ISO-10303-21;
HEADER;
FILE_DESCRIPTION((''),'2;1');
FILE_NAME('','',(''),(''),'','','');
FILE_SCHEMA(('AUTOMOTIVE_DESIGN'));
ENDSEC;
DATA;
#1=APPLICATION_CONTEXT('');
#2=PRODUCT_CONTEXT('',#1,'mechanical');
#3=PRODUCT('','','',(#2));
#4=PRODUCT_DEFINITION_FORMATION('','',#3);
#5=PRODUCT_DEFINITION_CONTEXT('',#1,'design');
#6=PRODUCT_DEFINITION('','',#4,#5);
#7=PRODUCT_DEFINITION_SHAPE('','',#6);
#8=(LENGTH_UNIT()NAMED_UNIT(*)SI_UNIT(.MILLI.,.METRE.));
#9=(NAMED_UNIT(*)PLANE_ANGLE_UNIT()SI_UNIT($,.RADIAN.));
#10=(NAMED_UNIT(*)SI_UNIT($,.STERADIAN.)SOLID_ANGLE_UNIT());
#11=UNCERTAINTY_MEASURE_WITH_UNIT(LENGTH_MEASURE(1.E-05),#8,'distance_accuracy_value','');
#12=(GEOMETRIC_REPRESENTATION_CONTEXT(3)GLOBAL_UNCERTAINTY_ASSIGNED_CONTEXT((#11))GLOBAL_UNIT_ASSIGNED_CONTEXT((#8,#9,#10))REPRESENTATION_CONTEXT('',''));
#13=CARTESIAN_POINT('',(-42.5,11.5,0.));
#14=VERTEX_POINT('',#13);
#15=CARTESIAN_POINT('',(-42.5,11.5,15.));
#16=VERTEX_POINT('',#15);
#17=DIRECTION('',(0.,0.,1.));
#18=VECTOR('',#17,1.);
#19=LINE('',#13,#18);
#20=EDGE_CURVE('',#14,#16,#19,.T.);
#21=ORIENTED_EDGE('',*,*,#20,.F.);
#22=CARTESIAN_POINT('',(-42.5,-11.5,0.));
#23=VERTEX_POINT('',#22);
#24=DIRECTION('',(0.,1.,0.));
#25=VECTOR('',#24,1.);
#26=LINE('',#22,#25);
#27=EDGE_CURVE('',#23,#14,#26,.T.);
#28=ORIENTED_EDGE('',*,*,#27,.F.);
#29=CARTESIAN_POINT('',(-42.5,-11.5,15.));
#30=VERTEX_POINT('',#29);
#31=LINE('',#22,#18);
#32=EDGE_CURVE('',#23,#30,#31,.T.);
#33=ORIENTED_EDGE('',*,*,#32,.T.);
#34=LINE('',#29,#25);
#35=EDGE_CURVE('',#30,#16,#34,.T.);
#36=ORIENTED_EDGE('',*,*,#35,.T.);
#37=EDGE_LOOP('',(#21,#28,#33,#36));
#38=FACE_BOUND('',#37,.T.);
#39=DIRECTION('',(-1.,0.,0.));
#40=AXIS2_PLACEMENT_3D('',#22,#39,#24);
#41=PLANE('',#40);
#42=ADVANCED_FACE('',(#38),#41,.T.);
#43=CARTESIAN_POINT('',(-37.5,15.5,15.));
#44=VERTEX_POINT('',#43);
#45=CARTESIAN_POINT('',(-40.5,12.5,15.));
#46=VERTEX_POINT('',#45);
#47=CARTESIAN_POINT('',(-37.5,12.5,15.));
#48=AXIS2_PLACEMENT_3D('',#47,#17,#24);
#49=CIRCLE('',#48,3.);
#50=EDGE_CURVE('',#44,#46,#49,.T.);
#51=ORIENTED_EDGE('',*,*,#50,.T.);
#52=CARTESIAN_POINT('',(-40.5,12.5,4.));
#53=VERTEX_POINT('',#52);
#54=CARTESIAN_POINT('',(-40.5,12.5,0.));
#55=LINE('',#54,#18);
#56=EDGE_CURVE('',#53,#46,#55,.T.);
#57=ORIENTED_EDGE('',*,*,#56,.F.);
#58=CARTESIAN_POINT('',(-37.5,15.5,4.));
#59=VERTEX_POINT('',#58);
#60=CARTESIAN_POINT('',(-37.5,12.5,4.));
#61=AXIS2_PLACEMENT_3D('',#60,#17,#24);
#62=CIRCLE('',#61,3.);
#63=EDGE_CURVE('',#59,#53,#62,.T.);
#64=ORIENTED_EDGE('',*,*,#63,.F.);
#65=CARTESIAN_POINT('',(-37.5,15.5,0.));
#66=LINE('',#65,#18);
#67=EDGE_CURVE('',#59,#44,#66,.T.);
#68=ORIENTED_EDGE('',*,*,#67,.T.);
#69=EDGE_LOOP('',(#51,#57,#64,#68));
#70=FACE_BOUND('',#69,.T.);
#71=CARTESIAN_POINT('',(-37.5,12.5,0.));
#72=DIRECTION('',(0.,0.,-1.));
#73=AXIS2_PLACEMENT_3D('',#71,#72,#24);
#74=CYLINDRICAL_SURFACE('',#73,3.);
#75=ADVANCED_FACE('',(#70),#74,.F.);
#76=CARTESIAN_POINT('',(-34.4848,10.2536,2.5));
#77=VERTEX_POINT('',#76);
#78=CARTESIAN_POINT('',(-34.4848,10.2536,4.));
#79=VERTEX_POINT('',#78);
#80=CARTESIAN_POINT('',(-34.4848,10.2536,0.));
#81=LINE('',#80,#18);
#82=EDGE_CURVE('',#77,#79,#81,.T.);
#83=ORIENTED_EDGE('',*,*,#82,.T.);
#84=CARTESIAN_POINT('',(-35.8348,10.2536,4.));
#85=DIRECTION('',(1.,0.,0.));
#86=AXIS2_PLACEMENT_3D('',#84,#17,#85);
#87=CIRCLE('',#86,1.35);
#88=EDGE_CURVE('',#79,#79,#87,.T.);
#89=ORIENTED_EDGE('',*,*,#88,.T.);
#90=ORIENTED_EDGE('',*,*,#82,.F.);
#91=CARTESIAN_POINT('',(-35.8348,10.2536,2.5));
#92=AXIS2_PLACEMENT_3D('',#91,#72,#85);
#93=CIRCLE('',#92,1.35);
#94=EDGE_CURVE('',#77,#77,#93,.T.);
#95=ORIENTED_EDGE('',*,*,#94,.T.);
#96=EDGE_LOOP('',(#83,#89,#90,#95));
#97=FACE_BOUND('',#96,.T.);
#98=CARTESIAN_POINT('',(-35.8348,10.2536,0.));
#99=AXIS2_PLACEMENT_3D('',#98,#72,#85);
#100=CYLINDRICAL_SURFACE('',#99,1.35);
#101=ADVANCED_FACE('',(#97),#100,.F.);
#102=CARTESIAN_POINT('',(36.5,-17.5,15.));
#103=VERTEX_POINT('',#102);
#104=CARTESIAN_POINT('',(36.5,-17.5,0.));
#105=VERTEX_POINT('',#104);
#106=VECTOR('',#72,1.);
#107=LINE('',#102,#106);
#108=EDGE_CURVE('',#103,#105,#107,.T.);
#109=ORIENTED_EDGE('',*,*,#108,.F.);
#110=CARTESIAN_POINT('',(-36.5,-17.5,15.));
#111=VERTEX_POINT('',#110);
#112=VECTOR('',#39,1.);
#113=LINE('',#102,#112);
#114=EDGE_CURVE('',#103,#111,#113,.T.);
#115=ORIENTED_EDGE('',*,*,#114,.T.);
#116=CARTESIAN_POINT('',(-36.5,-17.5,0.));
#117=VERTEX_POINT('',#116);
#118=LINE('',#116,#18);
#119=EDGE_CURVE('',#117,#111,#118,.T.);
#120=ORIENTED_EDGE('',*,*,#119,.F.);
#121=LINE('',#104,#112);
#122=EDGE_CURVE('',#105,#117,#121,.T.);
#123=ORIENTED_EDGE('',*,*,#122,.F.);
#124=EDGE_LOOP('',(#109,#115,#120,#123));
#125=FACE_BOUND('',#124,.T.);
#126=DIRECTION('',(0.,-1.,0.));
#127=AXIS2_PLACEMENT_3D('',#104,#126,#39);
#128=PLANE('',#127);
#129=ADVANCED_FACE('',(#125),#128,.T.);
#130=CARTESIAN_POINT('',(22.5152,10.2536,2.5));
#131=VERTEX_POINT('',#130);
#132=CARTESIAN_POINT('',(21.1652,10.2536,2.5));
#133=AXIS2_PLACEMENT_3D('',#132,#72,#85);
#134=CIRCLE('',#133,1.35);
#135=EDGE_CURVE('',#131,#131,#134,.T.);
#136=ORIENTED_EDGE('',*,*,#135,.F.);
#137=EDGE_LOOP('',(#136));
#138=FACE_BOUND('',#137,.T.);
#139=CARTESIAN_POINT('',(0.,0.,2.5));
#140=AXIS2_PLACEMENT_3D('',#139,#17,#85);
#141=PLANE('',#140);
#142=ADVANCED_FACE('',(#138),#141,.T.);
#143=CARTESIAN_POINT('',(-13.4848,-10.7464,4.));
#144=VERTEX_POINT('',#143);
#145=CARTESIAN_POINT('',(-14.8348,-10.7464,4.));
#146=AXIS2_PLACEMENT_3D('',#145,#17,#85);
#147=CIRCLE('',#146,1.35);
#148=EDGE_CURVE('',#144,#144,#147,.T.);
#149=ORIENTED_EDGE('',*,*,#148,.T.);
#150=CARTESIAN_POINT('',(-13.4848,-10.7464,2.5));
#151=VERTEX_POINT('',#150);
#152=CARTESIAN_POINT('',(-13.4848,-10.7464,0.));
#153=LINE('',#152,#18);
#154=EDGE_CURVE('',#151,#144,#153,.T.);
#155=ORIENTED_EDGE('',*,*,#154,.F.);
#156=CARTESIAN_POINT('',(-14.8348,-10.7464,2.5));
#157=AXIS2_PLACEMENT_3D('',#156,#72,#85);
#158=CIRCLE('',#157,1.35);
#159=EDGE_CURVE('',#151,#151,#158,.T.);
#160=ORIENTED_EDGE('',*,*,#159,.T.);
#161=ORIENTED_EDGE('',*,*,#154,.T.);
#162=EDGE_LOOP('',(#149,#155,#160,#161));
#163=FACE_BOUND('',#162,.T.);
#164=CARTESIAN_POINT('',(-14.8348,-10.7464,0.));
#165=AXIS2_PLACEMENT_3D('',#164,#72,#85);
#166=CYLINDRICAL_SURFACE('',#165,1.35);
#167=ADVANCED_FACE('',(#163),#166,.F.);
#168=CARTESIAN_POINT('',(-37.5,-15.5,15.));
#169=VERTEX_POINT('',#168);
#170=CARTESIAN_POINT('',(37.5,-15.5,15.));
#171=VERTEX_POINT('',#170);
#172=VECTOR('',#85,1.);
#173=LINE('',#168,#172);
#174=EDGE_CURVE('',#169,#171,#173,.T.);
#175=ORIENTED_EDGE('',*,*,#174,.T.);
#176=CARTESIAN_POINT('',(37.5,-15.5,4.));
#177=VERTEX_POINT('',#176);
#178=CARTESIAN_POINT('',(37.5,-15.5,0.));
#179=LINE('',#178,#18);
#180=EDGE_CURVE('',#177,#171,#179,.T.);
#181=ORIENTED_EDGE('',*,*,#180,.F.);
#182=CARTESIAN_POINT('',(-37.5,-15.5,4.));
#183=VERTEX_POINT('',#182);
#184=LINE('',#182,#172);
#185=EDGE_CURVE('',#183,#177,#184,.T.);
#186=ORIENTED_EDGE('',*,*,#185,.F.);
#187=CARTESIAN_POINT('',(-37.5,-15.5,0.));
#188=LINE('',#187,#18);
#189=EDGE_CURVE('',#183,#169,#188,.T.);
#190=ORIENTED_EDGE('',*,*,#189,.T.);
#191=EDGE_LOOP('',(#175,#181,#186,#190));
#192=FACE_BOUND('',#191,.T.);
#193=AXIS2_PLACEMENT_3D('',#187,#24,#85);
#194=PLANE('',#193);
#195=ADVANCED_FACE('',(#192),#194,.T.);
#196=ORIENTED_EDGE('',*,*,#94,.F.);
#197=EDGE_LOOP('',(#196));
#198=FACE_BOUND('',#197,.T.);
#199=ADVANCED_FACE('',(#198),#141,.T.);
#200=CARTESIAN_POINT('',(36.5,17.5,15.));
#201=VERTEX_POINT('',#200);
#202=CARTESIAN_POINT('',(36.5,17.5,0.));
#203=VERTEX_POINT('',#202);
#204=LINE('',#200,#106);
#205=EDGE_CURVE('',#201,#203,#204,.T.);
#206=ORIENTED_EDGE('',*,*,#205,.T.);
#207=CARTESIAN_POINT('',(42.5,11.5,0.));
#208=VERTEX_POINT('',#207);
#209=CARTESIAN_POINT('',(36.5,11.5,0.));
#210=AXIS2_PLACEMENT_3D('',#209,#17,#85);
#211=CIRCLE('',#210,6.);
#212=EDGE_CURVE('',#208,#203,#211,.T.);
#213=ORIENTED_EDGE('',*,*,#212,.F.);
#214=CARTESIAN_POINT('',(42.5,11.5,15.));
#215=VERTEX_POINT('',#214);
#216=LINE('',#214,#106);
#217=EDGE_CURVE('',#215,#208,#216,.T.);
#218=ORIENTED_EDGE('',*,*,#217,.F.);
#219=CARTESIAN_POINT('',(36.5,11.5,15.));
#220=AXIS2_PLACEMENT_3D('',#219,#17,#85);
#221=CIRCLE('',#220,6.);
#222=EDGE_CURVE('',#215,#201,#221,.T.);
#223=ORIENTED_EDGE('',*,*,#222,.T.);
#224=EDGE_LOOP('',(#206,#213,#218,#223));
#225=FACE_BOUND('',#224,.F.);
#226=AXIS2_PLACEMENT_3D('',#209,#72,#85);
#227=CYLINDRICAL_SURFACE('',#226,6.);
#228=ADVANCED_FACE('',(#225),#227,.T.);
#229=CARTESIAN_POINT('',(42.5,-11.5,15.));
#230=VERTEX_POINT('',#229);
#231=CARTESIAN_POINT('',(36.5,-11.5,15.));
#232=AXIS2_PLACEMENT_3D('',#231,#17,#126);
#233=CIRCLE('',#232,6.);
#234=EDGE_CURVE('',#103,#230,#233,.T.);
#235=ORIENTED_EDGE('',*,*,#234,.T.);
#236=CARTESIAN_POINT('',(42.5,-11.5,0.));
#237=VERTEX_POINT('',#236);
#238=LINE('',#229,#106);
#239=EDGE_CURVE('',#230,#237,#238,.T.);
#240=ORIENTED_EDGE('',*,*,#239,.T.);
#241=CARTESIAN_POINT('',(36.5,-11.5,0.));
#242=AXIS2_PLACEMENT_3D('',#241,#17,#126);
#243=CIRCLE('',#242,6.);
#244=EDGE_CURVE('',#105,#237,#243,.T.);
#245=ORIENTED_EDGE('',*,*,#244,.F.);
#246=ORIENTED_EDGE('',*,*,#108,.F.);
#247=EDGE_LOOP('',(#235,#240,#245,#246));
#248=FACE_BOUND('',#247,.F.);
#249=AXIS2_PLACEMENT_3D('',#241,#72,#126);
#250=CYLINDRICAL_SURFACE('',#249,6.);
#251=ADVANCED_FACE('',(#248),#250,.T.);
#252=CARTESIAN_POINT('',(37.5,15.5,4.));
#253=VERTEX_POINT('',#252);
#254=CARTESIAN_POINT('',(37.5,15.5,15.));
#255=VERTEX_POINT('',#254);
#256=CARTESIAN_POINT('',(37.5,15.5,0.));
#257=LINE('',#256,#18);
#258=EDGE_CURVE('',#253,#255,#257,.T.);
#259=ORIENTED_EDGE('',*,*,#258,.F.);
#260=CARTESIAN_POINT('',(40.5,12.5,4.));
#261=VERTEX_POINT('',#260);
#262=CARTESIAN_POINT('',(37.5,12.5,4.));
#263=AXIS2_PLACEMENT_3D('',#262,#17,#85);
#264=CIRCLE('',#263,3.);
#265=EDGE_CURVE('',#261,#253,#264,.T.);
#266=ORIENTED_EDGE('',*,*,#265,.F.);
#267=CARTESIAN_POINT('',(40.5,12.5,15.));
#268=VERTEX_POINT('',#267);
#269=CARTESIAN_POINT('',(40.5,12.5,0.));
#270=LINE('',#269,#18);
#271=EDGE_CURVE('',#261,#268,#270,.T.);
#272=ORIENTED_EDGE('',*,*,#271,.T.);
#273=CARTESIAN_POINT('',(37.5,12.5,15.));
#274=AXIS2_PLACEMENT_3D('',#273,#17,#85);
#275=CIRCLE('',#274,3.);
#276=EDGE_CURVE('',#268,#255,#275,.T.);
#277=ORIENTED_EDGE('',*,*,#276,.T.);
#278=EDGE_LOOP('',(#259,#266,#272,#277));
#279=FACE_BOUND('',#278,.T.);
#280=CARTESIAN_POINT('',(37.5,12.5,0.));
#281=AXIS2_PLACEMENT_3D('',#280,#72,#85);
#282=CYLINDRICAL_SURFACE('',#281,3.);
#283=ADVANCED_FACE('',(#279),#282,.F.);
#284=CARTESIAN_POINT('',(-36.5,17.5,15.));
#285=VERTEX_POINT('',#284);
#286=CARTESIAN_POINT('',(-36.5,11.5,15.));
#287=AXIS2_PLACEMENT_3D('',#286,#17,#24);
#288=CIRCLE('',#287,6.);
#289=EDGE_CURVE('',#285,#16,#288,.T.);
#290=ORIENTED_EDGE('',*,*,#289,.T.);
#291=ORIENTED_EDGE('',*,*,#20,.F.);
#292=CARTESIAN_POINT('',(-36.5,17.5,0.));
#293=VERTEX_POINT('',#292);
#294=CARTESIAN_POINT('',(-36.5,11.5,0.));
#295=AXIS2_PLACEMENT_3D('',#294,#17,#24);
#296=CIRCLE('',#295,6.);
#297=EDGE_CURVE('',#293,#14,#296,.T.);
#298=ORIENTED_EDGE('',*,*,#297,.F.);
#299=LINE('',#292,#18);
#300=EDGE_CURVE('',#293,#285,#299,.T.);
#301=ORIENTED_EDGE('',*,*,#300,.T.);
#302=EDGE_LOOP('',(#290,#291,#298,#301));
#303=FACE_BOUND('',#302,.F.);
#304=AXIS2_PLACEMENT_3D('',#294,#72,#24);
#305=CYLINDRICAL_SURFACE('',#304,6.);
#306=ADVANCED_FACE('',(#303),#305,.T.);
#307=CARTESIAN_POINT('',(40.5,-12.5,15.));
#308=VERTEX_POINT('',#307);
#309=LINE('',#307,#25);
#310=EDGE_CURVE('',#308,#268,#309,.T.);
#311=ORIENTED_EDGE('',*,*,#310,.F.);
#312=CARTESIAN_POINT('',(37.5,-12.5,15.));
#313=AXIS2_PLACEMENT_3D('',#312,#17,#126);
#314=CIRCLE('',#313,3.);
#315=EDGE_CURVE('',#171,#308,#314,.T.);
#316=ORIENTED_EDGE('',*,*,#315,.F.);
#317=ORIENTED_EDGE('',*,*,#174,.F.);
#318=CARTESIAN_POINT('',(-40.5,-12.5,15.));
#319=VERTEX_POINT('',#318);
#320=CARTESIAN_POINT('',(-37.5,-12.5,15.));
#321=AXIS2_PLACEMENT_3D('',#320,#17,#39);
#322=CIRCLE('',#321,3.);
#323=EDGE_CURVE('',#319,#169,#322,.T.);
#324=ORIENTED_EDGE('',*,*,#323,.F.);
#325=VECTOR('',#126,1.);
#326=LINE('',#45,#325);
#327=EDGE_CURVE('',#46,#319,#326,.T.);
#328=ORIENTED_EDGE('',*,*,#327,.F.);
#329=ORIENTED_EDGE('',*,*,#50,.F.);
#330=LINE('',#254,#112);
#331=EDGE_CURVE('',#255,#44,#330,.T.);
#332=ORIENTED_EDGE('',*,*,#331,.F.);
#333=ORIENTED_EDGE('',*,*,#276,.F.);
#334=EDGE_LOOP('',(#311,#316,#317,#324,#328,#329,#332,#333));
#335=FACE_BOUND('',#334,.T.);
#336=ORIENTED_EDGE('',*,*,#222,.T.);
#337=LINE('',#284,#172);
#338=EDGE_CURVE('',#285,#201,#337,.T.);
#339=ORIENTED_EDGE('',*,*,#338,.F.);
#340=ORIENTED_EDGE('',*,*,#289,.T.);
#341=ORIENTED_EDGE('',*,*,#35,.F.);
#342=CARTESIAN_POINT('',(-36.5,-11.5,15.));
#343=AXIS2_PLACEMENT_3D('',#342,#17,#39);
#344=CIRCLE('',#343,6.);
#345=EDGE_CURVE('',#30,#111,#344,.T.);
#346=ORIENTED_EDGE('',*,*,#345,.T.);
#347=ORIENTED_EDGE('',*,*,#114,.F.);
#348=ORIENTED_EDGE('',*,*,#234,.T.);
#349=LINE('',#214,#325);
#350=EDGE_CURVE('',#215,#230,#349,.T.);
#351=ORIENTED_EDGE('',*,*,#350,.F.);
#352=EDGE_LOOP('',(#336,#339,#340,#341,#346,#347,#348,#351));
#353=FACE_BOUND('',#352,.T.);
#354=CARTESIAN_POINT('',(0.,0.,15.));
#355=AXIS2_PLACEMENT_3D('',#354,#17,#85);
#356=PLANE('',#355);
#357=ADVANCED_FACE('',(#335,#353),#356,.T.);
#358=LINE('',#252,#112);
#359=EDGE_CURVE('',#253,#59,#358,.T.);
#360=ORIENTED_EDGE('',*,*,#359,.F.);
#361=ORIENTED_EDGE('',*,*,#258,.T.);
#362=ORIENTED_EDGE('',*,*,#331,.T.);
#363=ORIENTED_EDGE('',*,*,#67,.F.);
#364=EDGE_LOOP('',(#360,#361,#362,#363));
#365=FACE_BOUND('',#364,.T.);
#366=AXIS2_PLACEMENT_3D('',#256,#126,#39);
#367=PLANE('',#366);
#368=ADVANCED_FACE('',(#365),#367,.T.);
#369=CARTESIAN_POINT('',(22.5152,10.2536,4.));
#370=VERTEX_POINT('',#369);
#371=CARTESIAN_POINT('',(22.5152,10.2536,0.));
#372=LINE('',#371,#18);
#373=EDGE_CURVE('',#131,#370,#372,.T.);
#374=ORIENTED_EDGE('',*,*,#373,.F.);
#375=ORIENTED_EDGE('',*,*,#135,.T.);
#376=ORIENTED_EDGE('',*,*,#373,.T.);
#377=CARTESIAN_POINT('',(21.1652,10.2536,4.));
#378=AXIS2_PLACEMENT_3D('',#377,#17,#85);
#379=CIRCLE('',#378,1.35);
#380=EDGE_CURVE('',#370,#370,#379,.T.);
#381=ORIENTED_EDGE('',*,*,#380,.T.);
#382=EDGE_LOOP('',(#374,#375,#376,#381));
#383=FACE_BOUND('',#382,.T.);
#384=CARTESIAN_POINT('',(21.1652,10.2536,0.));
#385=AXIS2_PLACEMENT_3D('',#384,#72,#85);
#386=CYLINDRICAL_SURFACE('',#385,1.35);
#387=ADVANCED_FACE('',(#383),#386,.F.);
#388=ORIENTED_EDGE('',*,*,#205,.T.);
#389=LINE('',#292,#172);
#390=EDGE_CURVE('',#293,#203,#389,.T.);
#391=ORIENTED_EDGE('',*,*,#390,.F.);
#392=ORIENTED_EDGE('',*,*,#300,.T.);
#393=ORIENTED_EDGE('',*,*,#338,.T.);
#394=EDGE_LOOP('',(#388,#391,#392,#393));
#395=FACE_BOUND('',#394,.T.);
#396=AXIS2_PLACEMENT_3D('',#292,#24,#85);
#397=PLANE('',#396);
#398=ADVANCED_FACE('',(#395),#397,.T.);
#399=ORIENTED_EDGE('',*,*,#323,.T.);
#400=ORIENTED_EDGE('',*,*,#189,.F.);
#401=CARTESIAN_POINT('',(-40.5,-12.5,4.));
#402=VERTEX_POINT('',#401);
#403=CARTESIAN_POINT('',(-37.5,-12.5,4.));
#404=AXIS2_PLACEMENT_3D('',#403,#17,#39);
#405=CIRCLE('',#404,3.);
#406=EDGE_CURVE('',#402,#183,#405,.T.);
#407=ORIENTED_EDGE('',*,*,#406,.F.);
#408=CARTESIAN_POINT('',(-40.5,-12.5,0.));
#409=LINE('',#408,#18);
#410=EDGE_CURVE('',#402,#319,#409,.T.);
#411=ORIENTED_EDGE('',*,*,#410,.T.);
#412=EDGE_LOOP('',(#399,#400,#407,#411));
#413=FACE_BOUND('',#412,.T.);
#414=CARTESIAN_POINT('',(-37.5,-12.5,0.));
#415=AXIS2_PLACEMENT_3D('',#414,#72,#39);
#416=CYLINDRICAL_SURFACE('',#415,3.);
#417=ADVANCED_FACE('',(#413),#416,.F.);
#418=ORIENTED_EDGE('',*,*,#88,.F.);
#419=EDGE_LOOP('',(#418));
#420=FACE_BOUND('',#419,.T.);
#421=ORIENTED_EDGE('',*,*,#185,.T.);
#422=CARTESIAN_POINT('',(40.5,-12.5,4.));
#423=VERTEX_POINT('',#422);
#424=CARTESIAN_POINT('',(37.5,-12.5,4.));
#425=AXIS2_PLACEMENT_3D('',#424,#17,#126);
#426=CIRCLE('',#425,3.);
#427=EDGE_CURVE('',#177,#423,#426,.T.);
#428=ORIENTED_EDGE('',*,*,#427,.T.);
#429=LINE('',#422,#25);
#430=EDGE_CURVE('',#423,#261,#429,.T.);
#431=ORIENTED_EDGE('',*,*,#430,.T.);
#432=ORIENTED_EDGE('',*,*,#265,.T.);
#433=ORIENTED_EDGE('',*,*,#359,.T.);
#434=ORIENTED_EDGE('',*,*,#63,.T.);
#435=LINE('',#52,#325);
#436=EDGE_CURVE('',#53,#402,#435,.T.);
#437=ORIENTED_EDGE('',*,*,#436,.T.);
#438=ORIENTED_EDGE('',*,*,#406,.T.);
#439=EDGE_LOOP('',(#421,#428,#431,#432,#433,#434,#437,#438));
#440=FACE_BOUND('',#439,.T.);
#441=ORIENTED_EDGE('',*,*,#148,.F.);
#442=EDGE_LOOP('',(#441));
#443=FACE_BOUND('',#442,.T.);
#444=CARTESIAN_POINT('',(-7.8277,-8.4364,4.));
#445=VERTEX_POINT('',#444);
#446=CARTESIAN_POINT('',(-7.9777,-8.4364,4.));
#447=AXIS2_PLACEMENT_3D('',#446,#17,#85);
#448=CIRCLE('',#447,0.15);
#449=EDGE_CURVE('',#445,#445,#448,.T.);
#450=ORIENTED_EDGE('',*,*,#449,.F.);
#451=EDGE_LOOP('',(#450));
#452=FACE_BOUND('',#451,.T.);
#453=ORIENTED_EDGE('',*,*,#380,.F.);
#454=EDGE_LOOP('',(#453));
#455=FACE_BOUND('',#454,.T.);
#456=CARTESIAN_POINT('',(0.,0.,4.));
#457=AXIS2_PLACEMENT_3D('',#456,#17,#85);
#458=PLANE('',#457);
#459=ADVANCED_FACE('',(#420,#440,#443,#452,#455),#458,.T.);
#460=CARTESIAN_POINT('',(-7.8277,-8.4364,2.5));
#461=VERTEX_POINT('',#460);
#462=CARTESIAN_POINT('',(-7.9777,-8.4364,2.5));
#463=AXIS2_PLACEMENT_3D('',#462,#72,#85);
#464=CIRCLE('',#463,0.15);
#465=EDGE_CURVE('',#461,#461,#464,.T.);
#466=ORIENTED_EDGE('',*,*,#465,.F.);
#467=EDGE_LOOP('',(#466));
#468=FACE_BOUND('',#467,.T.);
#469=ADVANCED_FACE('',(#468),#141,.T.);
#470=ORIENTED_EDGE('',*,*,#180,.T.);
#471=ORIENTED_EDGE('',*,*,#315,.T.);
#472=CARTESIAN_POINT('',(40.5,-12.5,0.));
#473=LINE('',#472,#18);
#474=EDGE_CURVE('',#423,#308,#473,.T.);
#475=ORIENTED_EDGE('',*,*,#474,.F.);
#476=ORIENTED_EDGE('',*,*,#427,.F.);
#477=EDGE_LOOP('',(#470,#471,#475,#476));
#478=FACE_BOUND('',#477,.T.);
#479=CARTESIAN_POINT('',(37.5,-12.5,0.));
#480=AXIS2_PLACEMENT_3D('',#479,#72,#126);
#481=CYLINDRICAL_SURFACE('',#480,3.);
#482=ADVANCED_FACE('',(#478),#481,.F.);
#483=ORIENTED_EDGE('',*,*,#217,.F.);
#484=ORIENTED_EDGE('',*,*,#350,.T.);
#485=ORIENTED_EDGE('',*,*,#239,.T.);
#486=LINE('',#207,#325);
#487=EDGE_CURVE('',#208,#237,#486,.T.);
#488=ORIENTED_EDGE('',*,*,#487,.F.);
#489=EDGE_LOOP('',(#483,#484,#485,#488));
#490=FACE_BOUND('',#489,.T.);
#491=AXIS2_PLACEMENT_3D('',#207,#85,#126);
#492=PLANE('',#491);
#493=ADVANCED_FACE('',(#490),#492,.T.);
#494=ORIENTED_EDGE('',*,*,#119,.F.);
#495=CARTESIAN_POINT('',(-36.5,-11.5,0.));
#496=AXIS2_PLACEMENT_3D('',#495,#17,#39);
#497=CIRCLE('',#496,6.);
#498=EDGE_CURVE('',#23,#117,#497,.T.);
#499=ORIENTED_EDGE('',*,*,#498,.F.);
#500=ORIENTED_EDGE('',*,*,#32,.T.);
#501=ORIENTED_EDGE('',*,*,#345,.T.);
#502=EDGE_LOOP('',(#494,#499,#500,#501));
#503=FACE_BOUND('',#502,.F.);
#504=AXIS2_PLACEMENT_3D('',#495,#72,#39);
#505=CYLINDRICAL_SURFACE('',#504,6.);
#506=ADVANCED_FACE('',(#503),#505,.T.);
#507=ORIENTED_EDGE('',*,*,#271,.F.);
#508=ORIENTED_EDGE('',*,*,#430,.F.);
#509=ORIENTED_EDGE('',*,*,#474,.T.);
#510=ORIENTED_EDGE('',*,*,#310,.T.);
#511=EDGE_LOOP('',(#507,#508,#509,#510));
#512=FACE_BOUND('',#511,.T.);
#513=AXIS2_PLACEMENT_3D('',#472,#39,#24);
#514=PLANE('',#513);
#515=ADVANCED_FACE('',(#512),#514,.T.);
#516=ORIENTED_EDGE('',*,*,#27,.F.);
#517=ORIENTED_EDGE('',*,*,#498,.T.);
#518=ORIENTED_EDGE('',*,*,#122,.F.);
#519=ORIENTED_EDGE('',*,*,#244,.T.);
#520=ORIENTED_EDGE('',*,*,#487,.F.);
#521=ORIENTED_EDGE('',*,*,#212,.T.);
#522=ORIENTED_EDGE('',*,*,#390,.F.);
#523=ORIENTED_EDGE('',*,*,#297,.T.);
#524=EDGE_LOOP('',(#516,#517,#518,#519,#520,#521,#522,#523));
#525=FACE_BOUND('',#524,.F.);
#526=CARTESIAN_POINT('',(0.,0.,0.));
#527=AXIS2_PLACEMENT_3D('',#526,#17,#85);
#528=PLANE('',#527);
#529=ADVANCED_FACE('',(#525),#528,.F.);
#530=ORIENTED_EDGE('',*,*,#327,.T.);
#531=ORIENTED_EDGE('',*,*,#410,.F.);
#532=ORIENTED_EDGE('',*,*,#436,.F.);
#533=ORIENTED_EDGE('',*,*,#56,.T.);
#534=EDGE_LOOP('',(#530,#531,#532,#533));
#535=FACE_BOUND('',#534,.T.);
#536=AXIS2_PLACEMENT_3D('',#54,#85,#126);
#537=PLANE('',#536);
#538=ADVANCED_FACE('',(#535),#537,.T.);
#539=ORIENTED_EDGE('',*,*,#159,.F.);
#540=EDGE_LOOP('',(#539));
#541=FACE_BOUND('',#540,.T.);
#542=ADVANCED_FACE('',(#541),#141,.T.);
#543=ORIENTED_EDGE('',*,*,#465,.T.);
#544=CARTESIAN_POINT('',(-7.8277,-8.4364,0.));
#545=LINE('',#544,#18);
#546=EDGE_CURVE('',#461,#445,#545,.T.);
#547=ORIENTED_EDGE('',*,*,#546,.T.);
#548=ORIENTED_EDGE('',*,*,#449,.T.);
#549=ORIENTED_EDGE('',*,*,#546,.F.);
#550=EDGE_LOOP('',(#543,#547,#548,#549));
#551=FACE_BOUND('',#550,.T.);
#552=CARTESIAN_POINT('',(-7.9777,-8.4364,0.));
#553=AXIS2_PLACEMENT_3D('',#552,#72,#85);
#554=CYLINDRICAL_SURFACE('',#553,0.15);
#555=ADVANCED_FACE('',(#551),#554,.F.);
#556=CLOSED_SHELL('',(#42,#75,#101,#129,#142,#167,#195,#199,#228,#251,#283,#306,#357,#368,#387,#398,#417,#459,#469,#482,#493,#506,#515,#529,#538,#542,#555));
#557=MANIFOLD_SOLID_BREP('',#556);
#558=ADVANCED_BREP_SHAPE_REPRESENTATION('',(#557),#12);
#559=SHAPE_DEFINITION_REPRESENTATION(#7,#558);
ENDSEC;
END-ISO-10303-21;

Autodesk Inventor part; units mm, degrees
ref_plane "YZ Plane" through (0, 0, 0) normal (1, 0, 0) x (0, 1, 0)
ref_plane "XZ Plane" through (0, 0, 0) normal (0, 1, 0) x (-1, 0, 0)
ref_plane "XY Plane" through (0, 0, 0) normal (0, 0, 1) x (1, 0, 0)
sketch "Sketch1" plane through (0, 0, 0) normal (0, 0, 1) x (1, 0, 0)
  line L0 (-16.1167, 9.6221) -> (-16.0287, 9.5557)
  line L1 (-16.2227, 9.6523) -> (-16.1167, 9.6221)
  line L2 (-16.3325, 9.6421) -> (-16.2227, 9.6523)
  line L3 (-16.4312, 9.593) -> (-16.3325, 9.6421)
  line L4 (-16.5055, 9.5115) -> (-16.4312, 9.593)
  line L5 (-16.0287, 9.5557) -> (-15.9707, 9.4619)
  line L6 (37.1652, -14.1251) -> (-36.8348, -14.1251)
  line L7 (37.1652, -14.1251) -> (-36.8348, -14.1251)
  line L8 (-13.126, 14.2536) -> (37.1652, 14.2536)
  line L9 (-13.126, 14.2536) -> (37.1652, 14.2536)
  circle A0 centre (21.1652, 10.2536) radius 1.35
  circle A1 centre (21.1652, 10.2536) radius 1.35
  line L10 (40.1652, 11.2536) -> (40.1652, -11.1251)
  line L11 (40.1652, 11.2536) -> (40.1652, -11.1251)
  line L12 (40.1463, 11.5895) -> (40.1652, 11.2536)
  line L13 (40.1463, 11.5895) -> (40.1652, 11.2536)
  line L14 (-16.4721, 8.3515) -> (-16.5301, 8.4452)
  line L15 (-16.4721, 8.3515) -> (-16.5301, 8.4452)
  line L16 (-15.971, 13.4619) -> (-15.9507, 13.3536)
  line L17 (-16.5507, 13.3536) -> (-16.5456, 13.4087)
  line L18 (-16.5507, 13.3536) -> (-16.5456, 13.4087)
  line L19 (-15.971, 13.4619) -> (-15.9507, 13.3536)
  line L20 (-16.5456, 13.4087) -> (-16.5058, 13.5115)
  line L21 (-16.5456, 13.4087) -> (-16.5058, 13.5115)
  line L22 (-16.029, 13.5557) -> (-15.971, 13.4619)
  line L23 (-16.029, 13.5557) -> (-15.971, 13.4619)
  line L24 (-16.117, 13.6221) -> (-16.029, 13.5557)
  line L25 (-16.117, 13.6221) -> (-16.029, 13.5557)
  line L26 (-16.223, 13.6523) -> (-16.117, 13.6221)
  line L27 (-16.223, 13.6523) -> (-16.117, 13.6221)
  line L28 (-16.3328, 13.6421) -> (-16.223, 13.6523)
  line L29 (-16.3328, 13.6421) -> (-16.223, 13.6523)
  line L30 (-16.5058, 13.5115) -> (-16.4315, 13.593)
  line L31 (-16.4315, 13.593) -> (-16.3328, 13.6421)
  line L32 (-16.4315, 13.593) -> (-16.3328, 13.6421)
  line L33 (-16.5058, 13.5115) -> (-16.4315, 13.593)
  line L34 (-39.1803, -12.9956) -> (-39.375, -12.7212)
  line L35 (-38.9562, -13.2464) -> (-39.1803, -12.9956)
  line L36 (-38.9562, -13.2464) -> (-39.1803, -12.9956)
  line L37 (-38.7053, -13.4706) -> (-38.9562, -13.2464)
  line L38 (-38.7053, -13.4706) -> (-38.9562, -13.2464)
  line L39 (-38.4309, -13.6653) -> (-38.7053, -13.4706)
  line L40 (-38.4309, -13.6653) -> (-38.7053, -13.4706)
  line L41 (-38.1365, -13.828) -> (-38.4309, -13.6653)
  line L42 (-38.1365, -13.828) -> (-38.4309, -13.6653)
  line L43 (-37.8257, -13.9568) -> (-38.1365, -13.828)
  line L44 (-37.8257, -13.9568) -> (-38.1365, -13.828)
  line L45 (-37.5024, -14.0499) -> (-37.8257, -13.9568)
  line L46 (-37.5024, -14.0499) -> (-37.8257, -13.9568)
  line L47 (-37.1707, -14.1062) -> (-37.5024, -14.0499)
  line L48 (-37.1707, -14.1062) -> (-37.5024, -14.0499)
  line L49 (-36.8348, -14.1251) -> (-37.1707, -14.1062)
  line L50 (-36.8348, -14.1251) -> (-37.1707, -14.1062)
  line L51 (-39.1803, -12.9956) -> (-39.375, -12.7212)
  line L52 (-27.681, 12.0452) -> (-27.7013, 12.1536)
  line L53 (-27.1013, 12.1536) -> (-27.1064, 12.0984)
  line L54 (-27.1013, 12.1536) -> (-27.1064, 12.0984)
  line L55 (-27.681, 12.0452) -> (-27.7013, 12.1536)
  line L56 (-27.1064, 12.0984) -> (-27.1462, 11.9956)
  line L57 (-27.1064, 12.0984) -> (-27.1462, 11.9956)
  line L58 (-27.623, 11.9515) -> (-27.681, 12.0452)
  line L59 (-27.623, 11.9515) -> (-27.681, 12.0452)
  line L60 (-27.535, 11.885) -> (-27.623, 11.9515)
  line L61 (-27.535, 11.885) -> (-27.623, 11.9515)
  line L62 (-27.429, 11.8548) -> (-27.535, 11.885)
  line L63 (-27.429, 11.8548) -> (-27.535, 11.885)
  line L64 (-27.1462, 11.9956) -> (-27.2205, 11.9142)
  line L65 (-27.3192, 11.865) -> (-27.429, 11.8548)
  line L66 (-27.3192, 11.865) -> (-27.429, 11.8548)
  line L67 (-27.2205, 11.9142) -> (-27.3192, 11.865)
  line L68 (-27.2205, 11.9142) -> (-27.3192, 11.865)
  line L69 (-27.1462, 11.9956) -> (-27.2205, 11.9142)
  line L70 (-27.7013, 12.1536) -> (-27.7013, 13.3536)
  line L71 (-27.1013, 13.3536) -> (-27.1013, 12.1536)
  line L72 (-27.7013, 12.1536) -> (-27.7013, 13.3536)
  line L73 (-27.1013, 13.3536) -> (-27.1013, 12.1536)
  line L74 (-27.7013, 13.3536) -> (-27.6962, 13.4087)
  line L75 (-27.7013, 13.3536) -> (-27.6962, 13.4087)
  line L76 (-27.1216, 13.4619) -> (-27.1013, 13.3536)
  line L77 (-27.1216, 13.4619) -> (-27.1013, 13.3536)
  line L78 (-27.6962, 13.4087) -> (-27.6564, 13.5115)
  line L79 (-27.6962, 13.4087) -> (-27.6564, 13.5115)
  line L80 (-27.1796, 13.5557) -> (-27.1216, 13.4619)
  line L81 (-27.1796, 13.5557) -> (-27.1216, 13.4619)
  line L82 (-27.2676, 13.6221) -> (-27.1796, 13.5557)
  line L83 (-27.2676, 13.6221) -> (-27.1796, 13.5557)
  line L84 (-27.6564, 13.5115) -> (-27.5821, 13.593)
  line L85 (-27.6564, 13.5115) -> (-27.5821, 13.593)
  line L86 (-27.5821, 13.593) -> (-27.4834, 13.6421)
  line L87 (-27.5821, 13.593) -> (-27.4834, 13.6421)
  line L88 (-27.4834, 9.6421) -> (-27.3736, 9.6523)
  line L89 (-27.4834, 9.6421) -> (-27.3736, 9.6523)
  line L90 (-27.3736, 9.6523) -> (-27.2676, 9.6221)
  line L91 (-27.6564, 9.5115) -> (-27.5821, 9.593)
  line L92 (-27.6962, 9.4087) -> (-27.6564, 9.5115)
  line L93 (-27.3736, 9.6523) -> (-27.2676, 9.6221)
  line L94 (-16.5507, 12.1536) -> (-16.5507, 13.3536)
  line L95 (-16.5304, 12.0452) -> (-16.5507, 12.1536)
  line L96 (-16.4724, 11.9515) -> (-16.5304, 12.0452)
  line L97 (-15.9507, 13.3536) -> (-15.9507, 12.1536)
  line L98 (-15.9507, 12.1536) -> (-15.9558, 12.0984)
  line L99 (-16.5507, 12.1536) -> (-16.5507, 13.3536)
  line L100 (-15.9507, 13.3536) -> (-15.9507, 12.1536)
  line L101 (-15.9507, 12.1536) -> (-15.9558, 12.0984)
  line L102 (-16.5304, 12.0452) -> (-16.5507, 12.1536)
  line L103 (-15.9558, 12.0984) -> (-15.9956, 11.9956)
  line L104 (-16.3844, 11.885) -> (-16.4724, 11.9515)
  line L105 (-16.3844, 11.885) -> (-16.4724, 11.9515)
  line L106 (-16.2784, 11.8548) -> (-16.3844, 11.885)
  line L107 (-16.2784, 11.8548) -> (-16.3844, 11.885)
  line L108 (-16.1686, 11.865) -> (-16.2784, 11.8548)
  line L109 (-16.1686, 11.865) -> (-16.2784, 11.8548)
  line L110 (-15.9956, 11.9956) -> (-16.0699, 11.9142)
  line L111 (-15.9956, 11.9956) -> (-16.0699, 11.9142)
  line L112 (-16.0699, 11.9142) -> (-16.1686, 11.865)
  line L113 (-16.0699, 11.9142) -> (-16.1686, 11.865)
  line L114 (-15.9558, 12.0984) -> (-15.9956, 11.9956)
  line L115 (-15.9504, 8.5536) -> (-15.9555, 8.4984)
  line L116 (-15.9504, 9.3536) -> (-15.9504, 8.5536)
  line L117 (-15.9707, 9.4619) -> (-15.9504, 9.3536)
  line L118 (-16.0287, 9.5557) -> (-15.9707, 9.4619)
  line L119 (-16.1167, 9.6221) -> (-16.0287, 9.5557)
  line L120 (-16.2227, 9.6523) -> (-16.1167, 9.6221)
  line L121 (-16.5453, 9.4087) -> (-16.5055, 9.5115)
  line L122 (-16.5504, 9.3536) -> (-16.5453, 9.4087)
  line L123 (-16.5504, 8.5536) -> (-16.5504, 9.3536)
  line L124 (-16.3325, 9.6421) -> (-16.2227, 9.6523)
  line L125 (-16.4312, 9.593) -> (-16.3325, 9.6421)
  line L126 (-15.9707, 9.4619) -> (-15.9504, 9.3536)
  line L127 (-15.9504, 9.3536) -> (-15.9504, 8.5536)
  line L128 (-15.9504, 8.5536) -> (-15.9555, 8.4984)
  line L129 (-16.5055, 9.5115) -> (-16.4312, 9.593)
  line L130 (-16.5453, 9.4087) -> (-16.5055, 9.5115)
  line L131 (-16.5504, 9.3536) -> (-16.5453, 9.4087)
  line L132 (-16.5504, 8.5536) -> (-16.5504, 9.3536)
  line L133 (-17.226, 8.4536) -> (-17.226, 14.2536)
  line L134 (-26.426, 14.2536) -> (-26.426, 8.4536)
  line L135 (-26.426, 14.2536) -> (-26.426, 8.4536)
  line L136 (-17.226, 8.4536) -> (-17.226, 14.2536)
  line L137 (-17.226, 14.2536) -> (-13.126, 14.2536)
  line L138 (-17.226, 14.2536) -> (-13.126, 14.2536)
  line L139 (-16.4724, 11.9515) -> (-16.5304, 12.0452)
  line L140 (-26.426, 8.4536) -> (-17.226, 8.4536)
  line L141 (-26.426, 8.4536) -> (-17.226, 8.4536)
  circle A2 centre (-14.8348, -10.7464) radius 1.35
  circle A3 centre (-14.8348, -10.7464) radius 1.35
  circle A4 centre (-35.8348, 10.2536) radius 1.35
  line L142 (-37.5024, 14.1784) -> (-37.1707, 14.2347)
  line L143 (-37.8257, 14.0852) -> (-37.5024, 14.1784)
  line L144 (-36.8348, 14.2536) -> (-29.926, 14.2536)
  line L145 (-36.8348, 14.2536) -> (-29.926, 14.2536)
  circle A5 centre (-35.8348, 10.2536) radius 1.35
  line L146 (-37.1707, 14.2347) -> (-36.8348, 14.2536)
  line L147 (-37.1707, 14.2347) -> (-36.8348, 14.2536)
  line L148 (-37.5024, 14.1784) -> (-37.1707, 14.2347)
  line L149 (-37.8257, 14.0852) -> (-37.5024, 14.1784)
  line L150 (-27.681, 8.4452) -> (-27.7013, 8.5536)
  line L151 (-27.7013, 8.5536) -> (-27.7013, 9.3536)
  line L152 (-27.1216, 9.4619) -> (-27.1013, 9.3536)
  line L153 (-27.1013, 9.3536) -> (-27.1013, 8.5536)
  line L154 (-27.1796, 9.5557) -> (-27.1216, 9.4619)
  line L155 (-27.1013, 8.5536) -> (-27.1064, 8.4984)
  line L156 (-27.1064, 8.4984) -> (-27.1462, 8.3956)
  line L157 (-27.2676, 9.6221) -> (-27.1796, 9.5557)
  line L158 (-27.7013, 9.3536) -> (-27.6962, 9.4087)
  line L159 (-27.5821, 9.593) -> (-27.4834, 9.6421)
  line L160 (-27.2676, 9.6221) -> (-27.1796, 9.5557)
  line L161 (-27.6564, 9.5115) -> (-27.5821, 9.593)
  line L162 (-27.1796, 9.5557) -> (-27.1216, 9.4619)
  line L163 (-27.6962, 9.4087) -> (-27.6564, 9.5115)
  line L164 (-27.1216, 9.4619) -> (-27.1013, 9.3536)
  line L165 (-27.7013, 9.3536) -> (-27.6962, 9.4087)
  line L166 (-27.1013, 9.3536) -> (-27.1013, 8.5536)
  line L167 (-27.7013, 8.5536) -> (-27.7013, 9.3536)
  line L168 (-27.681, 8.4452) -> (-27.7013, 8.5536)
  line L169 (-27.623, 8.3515) -> (-27.681, 8.4452)
  line L170 (-27.623, 8.3515) -> (-27.681, 8.4452)
  line L171 (-27.5821, 9.593) -> (-27.4834, 9.6421)
  line L172 (-27.1064, 8.4984) -> (-27.1462, 8.3956)
  line L173 (-27.1462, 8.3956) -> (-27.2205, 8.3142)
  line L174 (-27.1462, 8.3956) -> (-27.2205, 8.3142)
  line L175 (-27.535, 8.285) -> (-27.623, 8.3515)
  line L176 (-27.535, 8.285) -> (-27.623, 8.3515)
  line L177 (-27.2205, 8.3142) -> (-27.3192, 8.265)
  line L178 (-27.2205, 8.3142) -> (-27.3192, 8.265)
  line L179 (-27.429, 8.2548) -> (-27.535, 8.285)
  line L180 (-27.429, 8.2548) -> (-27.535, 8.285)
  line L181 (-27.3192, 8.265) -> (-27.429, 8.2548)
  line L182 (-27.3192, 8.265) -> (-27.429, 8.2548)
  line L183 (-27.1013, 8.5536) -> (-27.1064, 8.4984)
  line L184 (-27.3736, 13.6523) -> (-27.2676, 13.6221)
  line L185 (-27.4834, 13.6421) -> (-27.3736, 13.6523)
  line L186 (-27.4834, 13.6421) -> (-27.3736, 13.6523)
  line L187 (-29.926, 14.2536) -> (-26.426, 14.2536)
  line L188 (-29.926, 14.2536) -> (-26.426, 14.2536)
  line L189 (-27.3736, 13.6523) -> (-27.2676, 13.6221)
  circle A6 centre (-7.9777, -8.4364) radius 0.15
  circle A7 centre (-7.9777, -8.4364) radius 0.15
  line L190 (-15.9555, 8.4984) -> (-15.9953, 8.3956)
  line L191 (-15.9555, 8.4984) -> (-15.9953, 8.3956)
  line L192 (-15.9953, 8.3956) -> (-16.0696, 8.3142)
  line L193 (-15.9953, 8.3956) -> (-16.0696, 8.3142)
  line L194 (-16.0696, 8.3142) -> (-16.1683, 8.265)
  line L195 (-16.0696, 8.3142) -> (-16.1683, 8.265)
  line L196 (-16.1683, 8.265) -> (-16.2781, 8.2548)
  line L197 (-16.1683, 8.265) -> (-16.2781, 8.2548)
  line L198 (-16.2781, 8.2548) -> (-16.3841, 8.285)
  line L199 (-16.2781, 8.2548) -> (-16.3841, 8.285)
  line L200 (-16.3841, 8.285) -> (-16.4721, 8.3515)
  line L201 (-16.3841, 8.285) -> (-16.4721, 8.3515)
  line L202 (-16.5301, 8.4452) -> (-16.5504, 8.5536)
  line L203 (-16.5301, 8.4452) -> (-16.5504, 8.5536)
  line L204 (-39.8348, -11.1251) -> (-39.8348, 11.2536)
  line L205 (-39.8348, -11.1251) -> (-39.8348, 11.2536)
  line L206 (39.0356, 13.5991) -> (39.2865, 13.3749)
  line L207 (39.0356, 13.5991) -> (39.2865, 13.3749)
  line L208 (38.7613, 13.7937) -> (39.0356, 13.5991)
  line L209 (38.7613, 13.7937) -> (39.0356, 13.5991)
  line L210 (38.4668, 13.9565) -> (38.7613, 13.7937)
  line L211 (38.4668, 13.9565) -> (38.7613, 13.7937)
  line L212 (38.156, 14.0852) -> (38.4668, 13.9565)
  line L213 (38.156, 14.0852) -> (38.4668, 13.9565)
  line L214 (37.8327, 14.1784) -> (38.156, 14.0852)
  line L215 (37.8327, 14.1784) -> (38.156, 14.0852)
  line L216 (37.5011, 14.2347) -> (37.8327, 14.1784)
  line L217 (37.5011, 14.2347) -> (37.8327, 14.1784)
  line L218 (37.1652, 14.2536) -> (37.5011, 14.2347)
  line L219 (37.1652, 14.2536) -> (37.5011, 14.2347)
  line L220 (39.2865, 13.3749) -> (39.5107, 13.124)
  line L221 (39.2865, 13.3749) -> (39.5107, 13.124)
  line L222 (39.5107, 13.124) -> (39.7053, 12.8497)
  line L223 (39.5107, 13.124) -> (39.7053, 12.8497)
  line L224 (39.7053, 12.8497) -> (39.8681, 12.5552)
  line L225 (39.8681, 12.5552) -> (39.9968, 12.2444)
  line L226 (39.8681, 12.5552) -> (39.9968, 12.2444)
  line L227 (39.9968, 12.2444) -> (40.0899, 11.9211)
  line L228 (39.9968, 12.2444) -> (40.0899, 11.9211)
  line L229 (40.0899, 11.9211) -> (40.1463, 11.5895)
  line L230 (40.0899, 11.9211) -> (40.1463, 11.5895)
  line L231 (39.7053, 12.8497) -> (39.8681, 12.5552)
  line L232 (-39.8348, 11.2536) -> (-39.816, 11.5895)
  line L233 (-39.816, 11.5895) -> (-39.7596, 11.9211)
  line L234 (-38.1365, 13.9565) -> (-37.8257, 14.0852)
  line L235 (-38.4309, 13.7937) -> (-38.1365, 13.9565)
  line L236 (-38.7053, 13.5991) -> (-38.4309, 13.7937)
  line L237 (-38.9562, 13.3749) -> (-38.7053, 13.5991)
  line L238 (-39.1803, 13.124) -> (-38.9562, 13.3749)
  line L239 (-39.375, 12.8497) -> (-39.1803, 13.124)
  line L240 (-39.5377, 12.5552) -> (-39.375, 12.8497)
  line L241 (-39.6665, 12.2444) -> (-39.5377, 12.5552)
  line L242 (-39.7596, 11.9211) -> (-39.6665, 12.2444)
  line L243 (-38.1365, 13.9565) -> (-37.8257, 14.0852)
  line L244 (-38.4309, 13.7937) -> (-38.1365, 13.9565)
  line L245 (-38.7053, 13.5991) -> (-38.4309, 13.7937)
  line L246 (-38.9562, 13.3749) -> (-38.7053, 13.5991)
  line L247 (-39.1803, 13.124) -> (-38.9562, 13.3749)
  line L248 (-39.375, 12.8497) -> (-39.1803, 13.124)
  line L249 (-39.5377, 12.5552) -> (-39.375, 12.8497)
  line L250 (-39.6665, 12.2444) -> (-39.5377, 12.5552)
  line L251 (-39.7596, 11.9211) -> (-39.6665, 12.2444)
  line L252 (-39.8348, 11.2536) -> (-39.816, 11.5895)
  line L253 (-39.816, 11.5895) -> (-39.7596, 11.9211)
  line L254 (-39.5377, -12.4268) -> (-39.6665, -12.1159)
  line L255 (-39.375, -12.7212) -> (-39.5377, -12.4268)
  line L256 (-39.375, -12.7212) -> (-39.5377, -12.4268)
  line L257 (-39.5377, -12.4268) -> (-39.6665, -12.1159)
  line L258 (-39.6665, -12.1159) -> (-39.7596, -11.7927)
  line L259 (-39.7596, -11.7927) -> (-39.816, -11.461)
  line L260 (-39.7596, -11.7927) -> (-39.816, -11.461)
  line L261 (-39.816, -11.461) -> (-39.8348, -11.1251)
  line L262 (-39.816, -11.461) -> (-39.8348, -11.1251)
  line L263 (-39.6665, -12.1159) -> (-39.7596, -11.7927)
  line L264 (37.5011, -14.1062) -> (37.1652, -14.1251)
  line L265 (38.7613, -13.6653) -> (38.4668, -13.828)
  line L266 (38.7613, -13.6653) -> (38.4668, -13.828)
  line L267 (39.5107, -12.9956) -> (39.2865, -13.2464)
  line L268 (39.9968, -12.1159) -> (39.8681, -12.4268)
  line L269 (40.1652, -11.1251) -> (40.1463, -11.461)
  line L270 (40.1652, -11.1251) -> (40.1463, -11.461)
  line L271 (40.1463, -11.461) -> (40.0899, -11.7927)
  line L272 (40.1463, -11.461) -> (40.0899, -11.7927)
  line L273 (40.0899, -11.7927) -> (39.9968, -12.1159)
  line L274 (40.0899, -11.7927) -> (39.9968, -12.1159)
  line L275 (39.9968, -12.1159) -> (39.8681, -12.4268)
  line L276 (39.8681, -12.4268) -> (39.7053, -12.7212)
  line L277 (39.8681, -12.4268) -> (39.7053, -12.7212)
  line L278 (39.7053, -12.7212) -> (39.5107, -12.9956)
  line L279 (39.7053, -12.7212) -> (39.5107, -12.9956)
  line L280 (39.5107, -12.9956) -> (39.2865, -13.2464)
  line L281 (39.2865, -13.2464) -> (39.0356, -13.4706)
  line L282 (39.2865, -13.2464) -> (39.0356, -13.4706)
  line L283 (39.0356, -13.4706) -> (38.7613, -13.6653)
  line L284 (39.0356, -13.4706) -> (38.7613, -13.6653)
  line L285 (38.4668, -13.828) -> (38.156, -13.9568)
  line L286 (38.4668, -13.828) -> (38.156, -13.9568)
  line L287 (38.156, -13.9568) -> (37.8327, -14.0499)
  line L288 (37.8327, -14.0499) -> (37.5011, -14.1062)
  line L289 (37.8327, -14.0499) -> (37.5011, -14.1062)
  line L290 (37.5011, -14.1062) -> (37.1652, -14.1251)
  line L291 (38.156, -13.9568) -> (37.8327, -14.0499)
  line L292 (-36.5, 17.5) -> (36.5, 17.5)
  line L293 (42.5, 11.5) -> (42.5, -11.5)
  line L294 (36.5, -17.5) -> (-36.5, -17.5)
  line L295 (-42.5, -11.5) -> (-42.5, 11.5)
  line L296 (-42.5, 17.5) -> (42.5, -17.5) construction
  line L297 (42.5, 17.5) -> (-42.5, -17.5) construction
  arc A8 (-36.5, 17.5) -> (-42.5, 11.5) centre (-36.5, 11.5) ccw
  arc A9 (-42.5, -11.5) -> (-36.5, -17.5) centre (-36.5, -11.5) ccw
  arc A10 (36.5, -17.5) -> (42.5, -11.5) centre (36.5, -11.5) ccw
  arc A11 (42.5, 11.5) -> (36.5, 17.5) centre (36.5, 11.5) ccw
  line L298 (37.5, 15.5) -> (-37.5, 15.5)
  line L299 (-40.5, 12.5) -> (-40.5, -12.5)
  line L300 (-37.5, -15.5) -> (37.5, -15.5)
  line L301 (40.5, -12.5) -> (40.5, 12.5)
  line L302 (40.5, 15.5) -> (-40.5, -15.5) construction
  line L303 (-40.5, 15.5) -> (40.5, -15.5) construction
  arc A12 (-40.5, -12.5) -> (-37.5, -15.5) centre (-37.5, -12.5) ccw
  arc A13 (-37.5, 15.5) -> (-40.5, 12.5) centre (-37.5, 12.5) ccw
  arc A14 (40.5, 12.5) -> (37.5, 15.5) centre (37.5, 12.5) ccw
  arc A15 (37.5, -15.5) -> (40.5, -12.5) centre (37.5, -12.5) ccw
  point P0 (0, 0)
  dimension "d2" = 85
  dimension "d3" = 35
  dimension "d4" = 6
  dimension "d5" = 81
  dimension "d6" = 31
  dimension "d7" = 3
  dimension "d8" = 3
extrude "Extrusion1" add sketch "Sketch1" along normal blind 2.5 contours L0 L5 L117 L116 L115 L190 L192 L194 L196 L198 L200 L14 L202 L123 L122 L121 L4 L3 L2 L1 | L6 L49 L47 L45 L43 L41 L39 L37 L35 L34 L255 L254 L258 L259 L261 L204 L232 L233 L242 L241 L240 L239 L238 L237 L236 L235 L234 L143 L142 L146 L144 L187 L134 L140 L133 L137 L8 L218 L216 L214 L212 L210 L208 L206 L220 L222 L224 L225 L227 L229 L12 L10 L269 L271 L273 L268 L276 L278 L267 L281 L283 L265 L285 L287 L288 L264 | A0 | L16 L97 L98 L103 L110 L112 L108 L106 L104 L96 L95 L94 L17 L20 L30 L31 L28 L26 L24 L22 | L52 L70 L74 L78 L84 L86 L185 L184 L82 L80 L76 L71 L53 L56 L64 L67 L65 L62 L60 L58 | L88 L90 L157 L154 L152 L153 L155 L156 L173 L177 L181 L179 L175 L169 L150 L151 L158 L92 L91 L159 | A2 | A4 | A6 | L292 A11 L293 A10 L294 A9 L295 A8 | A14 L301 A15 L300 A12 L299 A13 L298
extrude "Extrusion2" add sketch "Sketch1" along normal blind 15 contours L292 A11 L293 A10 L294 A9 L295 A8
extrude "Extrusion3" add sketch "Sketch1" along normal blind 4 contours L0 L5 L117 L116 L115 L190 L192 L194 L196 L198 L200 L14 L202 L123 L122 L121 L4 L3 L2 L1 | L6 L49 L47 L45 L43 L41 L39 L37 L35 L34 L255 L254 L258 L259 L261 L204 L232 L233 L242 L241 L240 L239 L238 L237 L236 L235 L234 L143 L142 L146 L144 L187 L134 L140 L133 L137 L8 L218 L216 L214 L212 L210 L208 L206 L220 L222 L224 L225 L227 L229 L12 L10 L269 L271 L273 L268 L276 L278 L267 L281 L283 L265 L285 L287 L288 L264 | L16 L97 L98 L103 L110 L112 L108 L106 L104 L96 L95 L94 L17 L20 L30 L31 L28 L26 L24 L22 | L52 L70 L74 L78 L84 L86 L185 L184 L82 L80 L76 L71 L53 L56 L64 L67 L65 L62 L60 L58 | L88 L90 L157 L154 L152 L153 L155 L156 L173 L177 L181 L179 L175 L169 L150 L151 L158 L92 L91 L159 | A14 L301 A15 L300 A12 L299 A13 L298
sketch "Sketch3" plane through (0, 0, 15) normal (0, 0, 1) x (1, 0, 0)
  line L0 (-36.5, -17.5) -> (36.5, -17.5) projected
  arc A0 (36.5, -17.5) -> (42.5, -11.5) centre (36.5, -11.5) ccw projected
  line L1 (42.5, -11.5) -> (42.5, 11.5) projected
  arc A1 (42.5, 11.5) -> (36.5, 17.5) centre (36.5, 11.5) ccw projected
  line L2 (36.5, 17.5) -> (-36.5, 17.5) projected
  arc A2 (-36.5, 17.5) -> (-42.5, 11.5) centre (-36.5, 11.5) ccw projected
  line L3 (-42.5, 11.5) -> (-42.5, -11.5) projected
  arc A3 (-42.5, -11.5) -> (-36.5, -17.5) centre (-36.5, -11.5) ccw projected
  arc A4 (40.5, 12.5) -> (37.5, 15.5) centre (37.5, 12.5) ccw projected
  line L4 (40.5, 12.5) -> (40.5, -12.5) projected
  arc A5 (37.5, -15.5) -> (40.5, -12.5) centre (37.5, -12.5) ccw projected
  line L5 (37.5, -15.5) -> (-37.5, -15.5) projected
  arc A6 (-40.5, -12.5) -> (-37.5, -15.5) centre (-37.5, -12.5) ccw projected
  line L6 (-40.5, -12.5) -> (-40.5, 12.5) projected
  arc A7 (-37.5, 15.5) -> (-40.5, 12.5) centre (-37.5, 12.5) ccw projected
  line L7 (-37.5, 15.5) -> (37.5, 15.5) projected
  point P0 (0, 0)
properties part number "CASE_0"
